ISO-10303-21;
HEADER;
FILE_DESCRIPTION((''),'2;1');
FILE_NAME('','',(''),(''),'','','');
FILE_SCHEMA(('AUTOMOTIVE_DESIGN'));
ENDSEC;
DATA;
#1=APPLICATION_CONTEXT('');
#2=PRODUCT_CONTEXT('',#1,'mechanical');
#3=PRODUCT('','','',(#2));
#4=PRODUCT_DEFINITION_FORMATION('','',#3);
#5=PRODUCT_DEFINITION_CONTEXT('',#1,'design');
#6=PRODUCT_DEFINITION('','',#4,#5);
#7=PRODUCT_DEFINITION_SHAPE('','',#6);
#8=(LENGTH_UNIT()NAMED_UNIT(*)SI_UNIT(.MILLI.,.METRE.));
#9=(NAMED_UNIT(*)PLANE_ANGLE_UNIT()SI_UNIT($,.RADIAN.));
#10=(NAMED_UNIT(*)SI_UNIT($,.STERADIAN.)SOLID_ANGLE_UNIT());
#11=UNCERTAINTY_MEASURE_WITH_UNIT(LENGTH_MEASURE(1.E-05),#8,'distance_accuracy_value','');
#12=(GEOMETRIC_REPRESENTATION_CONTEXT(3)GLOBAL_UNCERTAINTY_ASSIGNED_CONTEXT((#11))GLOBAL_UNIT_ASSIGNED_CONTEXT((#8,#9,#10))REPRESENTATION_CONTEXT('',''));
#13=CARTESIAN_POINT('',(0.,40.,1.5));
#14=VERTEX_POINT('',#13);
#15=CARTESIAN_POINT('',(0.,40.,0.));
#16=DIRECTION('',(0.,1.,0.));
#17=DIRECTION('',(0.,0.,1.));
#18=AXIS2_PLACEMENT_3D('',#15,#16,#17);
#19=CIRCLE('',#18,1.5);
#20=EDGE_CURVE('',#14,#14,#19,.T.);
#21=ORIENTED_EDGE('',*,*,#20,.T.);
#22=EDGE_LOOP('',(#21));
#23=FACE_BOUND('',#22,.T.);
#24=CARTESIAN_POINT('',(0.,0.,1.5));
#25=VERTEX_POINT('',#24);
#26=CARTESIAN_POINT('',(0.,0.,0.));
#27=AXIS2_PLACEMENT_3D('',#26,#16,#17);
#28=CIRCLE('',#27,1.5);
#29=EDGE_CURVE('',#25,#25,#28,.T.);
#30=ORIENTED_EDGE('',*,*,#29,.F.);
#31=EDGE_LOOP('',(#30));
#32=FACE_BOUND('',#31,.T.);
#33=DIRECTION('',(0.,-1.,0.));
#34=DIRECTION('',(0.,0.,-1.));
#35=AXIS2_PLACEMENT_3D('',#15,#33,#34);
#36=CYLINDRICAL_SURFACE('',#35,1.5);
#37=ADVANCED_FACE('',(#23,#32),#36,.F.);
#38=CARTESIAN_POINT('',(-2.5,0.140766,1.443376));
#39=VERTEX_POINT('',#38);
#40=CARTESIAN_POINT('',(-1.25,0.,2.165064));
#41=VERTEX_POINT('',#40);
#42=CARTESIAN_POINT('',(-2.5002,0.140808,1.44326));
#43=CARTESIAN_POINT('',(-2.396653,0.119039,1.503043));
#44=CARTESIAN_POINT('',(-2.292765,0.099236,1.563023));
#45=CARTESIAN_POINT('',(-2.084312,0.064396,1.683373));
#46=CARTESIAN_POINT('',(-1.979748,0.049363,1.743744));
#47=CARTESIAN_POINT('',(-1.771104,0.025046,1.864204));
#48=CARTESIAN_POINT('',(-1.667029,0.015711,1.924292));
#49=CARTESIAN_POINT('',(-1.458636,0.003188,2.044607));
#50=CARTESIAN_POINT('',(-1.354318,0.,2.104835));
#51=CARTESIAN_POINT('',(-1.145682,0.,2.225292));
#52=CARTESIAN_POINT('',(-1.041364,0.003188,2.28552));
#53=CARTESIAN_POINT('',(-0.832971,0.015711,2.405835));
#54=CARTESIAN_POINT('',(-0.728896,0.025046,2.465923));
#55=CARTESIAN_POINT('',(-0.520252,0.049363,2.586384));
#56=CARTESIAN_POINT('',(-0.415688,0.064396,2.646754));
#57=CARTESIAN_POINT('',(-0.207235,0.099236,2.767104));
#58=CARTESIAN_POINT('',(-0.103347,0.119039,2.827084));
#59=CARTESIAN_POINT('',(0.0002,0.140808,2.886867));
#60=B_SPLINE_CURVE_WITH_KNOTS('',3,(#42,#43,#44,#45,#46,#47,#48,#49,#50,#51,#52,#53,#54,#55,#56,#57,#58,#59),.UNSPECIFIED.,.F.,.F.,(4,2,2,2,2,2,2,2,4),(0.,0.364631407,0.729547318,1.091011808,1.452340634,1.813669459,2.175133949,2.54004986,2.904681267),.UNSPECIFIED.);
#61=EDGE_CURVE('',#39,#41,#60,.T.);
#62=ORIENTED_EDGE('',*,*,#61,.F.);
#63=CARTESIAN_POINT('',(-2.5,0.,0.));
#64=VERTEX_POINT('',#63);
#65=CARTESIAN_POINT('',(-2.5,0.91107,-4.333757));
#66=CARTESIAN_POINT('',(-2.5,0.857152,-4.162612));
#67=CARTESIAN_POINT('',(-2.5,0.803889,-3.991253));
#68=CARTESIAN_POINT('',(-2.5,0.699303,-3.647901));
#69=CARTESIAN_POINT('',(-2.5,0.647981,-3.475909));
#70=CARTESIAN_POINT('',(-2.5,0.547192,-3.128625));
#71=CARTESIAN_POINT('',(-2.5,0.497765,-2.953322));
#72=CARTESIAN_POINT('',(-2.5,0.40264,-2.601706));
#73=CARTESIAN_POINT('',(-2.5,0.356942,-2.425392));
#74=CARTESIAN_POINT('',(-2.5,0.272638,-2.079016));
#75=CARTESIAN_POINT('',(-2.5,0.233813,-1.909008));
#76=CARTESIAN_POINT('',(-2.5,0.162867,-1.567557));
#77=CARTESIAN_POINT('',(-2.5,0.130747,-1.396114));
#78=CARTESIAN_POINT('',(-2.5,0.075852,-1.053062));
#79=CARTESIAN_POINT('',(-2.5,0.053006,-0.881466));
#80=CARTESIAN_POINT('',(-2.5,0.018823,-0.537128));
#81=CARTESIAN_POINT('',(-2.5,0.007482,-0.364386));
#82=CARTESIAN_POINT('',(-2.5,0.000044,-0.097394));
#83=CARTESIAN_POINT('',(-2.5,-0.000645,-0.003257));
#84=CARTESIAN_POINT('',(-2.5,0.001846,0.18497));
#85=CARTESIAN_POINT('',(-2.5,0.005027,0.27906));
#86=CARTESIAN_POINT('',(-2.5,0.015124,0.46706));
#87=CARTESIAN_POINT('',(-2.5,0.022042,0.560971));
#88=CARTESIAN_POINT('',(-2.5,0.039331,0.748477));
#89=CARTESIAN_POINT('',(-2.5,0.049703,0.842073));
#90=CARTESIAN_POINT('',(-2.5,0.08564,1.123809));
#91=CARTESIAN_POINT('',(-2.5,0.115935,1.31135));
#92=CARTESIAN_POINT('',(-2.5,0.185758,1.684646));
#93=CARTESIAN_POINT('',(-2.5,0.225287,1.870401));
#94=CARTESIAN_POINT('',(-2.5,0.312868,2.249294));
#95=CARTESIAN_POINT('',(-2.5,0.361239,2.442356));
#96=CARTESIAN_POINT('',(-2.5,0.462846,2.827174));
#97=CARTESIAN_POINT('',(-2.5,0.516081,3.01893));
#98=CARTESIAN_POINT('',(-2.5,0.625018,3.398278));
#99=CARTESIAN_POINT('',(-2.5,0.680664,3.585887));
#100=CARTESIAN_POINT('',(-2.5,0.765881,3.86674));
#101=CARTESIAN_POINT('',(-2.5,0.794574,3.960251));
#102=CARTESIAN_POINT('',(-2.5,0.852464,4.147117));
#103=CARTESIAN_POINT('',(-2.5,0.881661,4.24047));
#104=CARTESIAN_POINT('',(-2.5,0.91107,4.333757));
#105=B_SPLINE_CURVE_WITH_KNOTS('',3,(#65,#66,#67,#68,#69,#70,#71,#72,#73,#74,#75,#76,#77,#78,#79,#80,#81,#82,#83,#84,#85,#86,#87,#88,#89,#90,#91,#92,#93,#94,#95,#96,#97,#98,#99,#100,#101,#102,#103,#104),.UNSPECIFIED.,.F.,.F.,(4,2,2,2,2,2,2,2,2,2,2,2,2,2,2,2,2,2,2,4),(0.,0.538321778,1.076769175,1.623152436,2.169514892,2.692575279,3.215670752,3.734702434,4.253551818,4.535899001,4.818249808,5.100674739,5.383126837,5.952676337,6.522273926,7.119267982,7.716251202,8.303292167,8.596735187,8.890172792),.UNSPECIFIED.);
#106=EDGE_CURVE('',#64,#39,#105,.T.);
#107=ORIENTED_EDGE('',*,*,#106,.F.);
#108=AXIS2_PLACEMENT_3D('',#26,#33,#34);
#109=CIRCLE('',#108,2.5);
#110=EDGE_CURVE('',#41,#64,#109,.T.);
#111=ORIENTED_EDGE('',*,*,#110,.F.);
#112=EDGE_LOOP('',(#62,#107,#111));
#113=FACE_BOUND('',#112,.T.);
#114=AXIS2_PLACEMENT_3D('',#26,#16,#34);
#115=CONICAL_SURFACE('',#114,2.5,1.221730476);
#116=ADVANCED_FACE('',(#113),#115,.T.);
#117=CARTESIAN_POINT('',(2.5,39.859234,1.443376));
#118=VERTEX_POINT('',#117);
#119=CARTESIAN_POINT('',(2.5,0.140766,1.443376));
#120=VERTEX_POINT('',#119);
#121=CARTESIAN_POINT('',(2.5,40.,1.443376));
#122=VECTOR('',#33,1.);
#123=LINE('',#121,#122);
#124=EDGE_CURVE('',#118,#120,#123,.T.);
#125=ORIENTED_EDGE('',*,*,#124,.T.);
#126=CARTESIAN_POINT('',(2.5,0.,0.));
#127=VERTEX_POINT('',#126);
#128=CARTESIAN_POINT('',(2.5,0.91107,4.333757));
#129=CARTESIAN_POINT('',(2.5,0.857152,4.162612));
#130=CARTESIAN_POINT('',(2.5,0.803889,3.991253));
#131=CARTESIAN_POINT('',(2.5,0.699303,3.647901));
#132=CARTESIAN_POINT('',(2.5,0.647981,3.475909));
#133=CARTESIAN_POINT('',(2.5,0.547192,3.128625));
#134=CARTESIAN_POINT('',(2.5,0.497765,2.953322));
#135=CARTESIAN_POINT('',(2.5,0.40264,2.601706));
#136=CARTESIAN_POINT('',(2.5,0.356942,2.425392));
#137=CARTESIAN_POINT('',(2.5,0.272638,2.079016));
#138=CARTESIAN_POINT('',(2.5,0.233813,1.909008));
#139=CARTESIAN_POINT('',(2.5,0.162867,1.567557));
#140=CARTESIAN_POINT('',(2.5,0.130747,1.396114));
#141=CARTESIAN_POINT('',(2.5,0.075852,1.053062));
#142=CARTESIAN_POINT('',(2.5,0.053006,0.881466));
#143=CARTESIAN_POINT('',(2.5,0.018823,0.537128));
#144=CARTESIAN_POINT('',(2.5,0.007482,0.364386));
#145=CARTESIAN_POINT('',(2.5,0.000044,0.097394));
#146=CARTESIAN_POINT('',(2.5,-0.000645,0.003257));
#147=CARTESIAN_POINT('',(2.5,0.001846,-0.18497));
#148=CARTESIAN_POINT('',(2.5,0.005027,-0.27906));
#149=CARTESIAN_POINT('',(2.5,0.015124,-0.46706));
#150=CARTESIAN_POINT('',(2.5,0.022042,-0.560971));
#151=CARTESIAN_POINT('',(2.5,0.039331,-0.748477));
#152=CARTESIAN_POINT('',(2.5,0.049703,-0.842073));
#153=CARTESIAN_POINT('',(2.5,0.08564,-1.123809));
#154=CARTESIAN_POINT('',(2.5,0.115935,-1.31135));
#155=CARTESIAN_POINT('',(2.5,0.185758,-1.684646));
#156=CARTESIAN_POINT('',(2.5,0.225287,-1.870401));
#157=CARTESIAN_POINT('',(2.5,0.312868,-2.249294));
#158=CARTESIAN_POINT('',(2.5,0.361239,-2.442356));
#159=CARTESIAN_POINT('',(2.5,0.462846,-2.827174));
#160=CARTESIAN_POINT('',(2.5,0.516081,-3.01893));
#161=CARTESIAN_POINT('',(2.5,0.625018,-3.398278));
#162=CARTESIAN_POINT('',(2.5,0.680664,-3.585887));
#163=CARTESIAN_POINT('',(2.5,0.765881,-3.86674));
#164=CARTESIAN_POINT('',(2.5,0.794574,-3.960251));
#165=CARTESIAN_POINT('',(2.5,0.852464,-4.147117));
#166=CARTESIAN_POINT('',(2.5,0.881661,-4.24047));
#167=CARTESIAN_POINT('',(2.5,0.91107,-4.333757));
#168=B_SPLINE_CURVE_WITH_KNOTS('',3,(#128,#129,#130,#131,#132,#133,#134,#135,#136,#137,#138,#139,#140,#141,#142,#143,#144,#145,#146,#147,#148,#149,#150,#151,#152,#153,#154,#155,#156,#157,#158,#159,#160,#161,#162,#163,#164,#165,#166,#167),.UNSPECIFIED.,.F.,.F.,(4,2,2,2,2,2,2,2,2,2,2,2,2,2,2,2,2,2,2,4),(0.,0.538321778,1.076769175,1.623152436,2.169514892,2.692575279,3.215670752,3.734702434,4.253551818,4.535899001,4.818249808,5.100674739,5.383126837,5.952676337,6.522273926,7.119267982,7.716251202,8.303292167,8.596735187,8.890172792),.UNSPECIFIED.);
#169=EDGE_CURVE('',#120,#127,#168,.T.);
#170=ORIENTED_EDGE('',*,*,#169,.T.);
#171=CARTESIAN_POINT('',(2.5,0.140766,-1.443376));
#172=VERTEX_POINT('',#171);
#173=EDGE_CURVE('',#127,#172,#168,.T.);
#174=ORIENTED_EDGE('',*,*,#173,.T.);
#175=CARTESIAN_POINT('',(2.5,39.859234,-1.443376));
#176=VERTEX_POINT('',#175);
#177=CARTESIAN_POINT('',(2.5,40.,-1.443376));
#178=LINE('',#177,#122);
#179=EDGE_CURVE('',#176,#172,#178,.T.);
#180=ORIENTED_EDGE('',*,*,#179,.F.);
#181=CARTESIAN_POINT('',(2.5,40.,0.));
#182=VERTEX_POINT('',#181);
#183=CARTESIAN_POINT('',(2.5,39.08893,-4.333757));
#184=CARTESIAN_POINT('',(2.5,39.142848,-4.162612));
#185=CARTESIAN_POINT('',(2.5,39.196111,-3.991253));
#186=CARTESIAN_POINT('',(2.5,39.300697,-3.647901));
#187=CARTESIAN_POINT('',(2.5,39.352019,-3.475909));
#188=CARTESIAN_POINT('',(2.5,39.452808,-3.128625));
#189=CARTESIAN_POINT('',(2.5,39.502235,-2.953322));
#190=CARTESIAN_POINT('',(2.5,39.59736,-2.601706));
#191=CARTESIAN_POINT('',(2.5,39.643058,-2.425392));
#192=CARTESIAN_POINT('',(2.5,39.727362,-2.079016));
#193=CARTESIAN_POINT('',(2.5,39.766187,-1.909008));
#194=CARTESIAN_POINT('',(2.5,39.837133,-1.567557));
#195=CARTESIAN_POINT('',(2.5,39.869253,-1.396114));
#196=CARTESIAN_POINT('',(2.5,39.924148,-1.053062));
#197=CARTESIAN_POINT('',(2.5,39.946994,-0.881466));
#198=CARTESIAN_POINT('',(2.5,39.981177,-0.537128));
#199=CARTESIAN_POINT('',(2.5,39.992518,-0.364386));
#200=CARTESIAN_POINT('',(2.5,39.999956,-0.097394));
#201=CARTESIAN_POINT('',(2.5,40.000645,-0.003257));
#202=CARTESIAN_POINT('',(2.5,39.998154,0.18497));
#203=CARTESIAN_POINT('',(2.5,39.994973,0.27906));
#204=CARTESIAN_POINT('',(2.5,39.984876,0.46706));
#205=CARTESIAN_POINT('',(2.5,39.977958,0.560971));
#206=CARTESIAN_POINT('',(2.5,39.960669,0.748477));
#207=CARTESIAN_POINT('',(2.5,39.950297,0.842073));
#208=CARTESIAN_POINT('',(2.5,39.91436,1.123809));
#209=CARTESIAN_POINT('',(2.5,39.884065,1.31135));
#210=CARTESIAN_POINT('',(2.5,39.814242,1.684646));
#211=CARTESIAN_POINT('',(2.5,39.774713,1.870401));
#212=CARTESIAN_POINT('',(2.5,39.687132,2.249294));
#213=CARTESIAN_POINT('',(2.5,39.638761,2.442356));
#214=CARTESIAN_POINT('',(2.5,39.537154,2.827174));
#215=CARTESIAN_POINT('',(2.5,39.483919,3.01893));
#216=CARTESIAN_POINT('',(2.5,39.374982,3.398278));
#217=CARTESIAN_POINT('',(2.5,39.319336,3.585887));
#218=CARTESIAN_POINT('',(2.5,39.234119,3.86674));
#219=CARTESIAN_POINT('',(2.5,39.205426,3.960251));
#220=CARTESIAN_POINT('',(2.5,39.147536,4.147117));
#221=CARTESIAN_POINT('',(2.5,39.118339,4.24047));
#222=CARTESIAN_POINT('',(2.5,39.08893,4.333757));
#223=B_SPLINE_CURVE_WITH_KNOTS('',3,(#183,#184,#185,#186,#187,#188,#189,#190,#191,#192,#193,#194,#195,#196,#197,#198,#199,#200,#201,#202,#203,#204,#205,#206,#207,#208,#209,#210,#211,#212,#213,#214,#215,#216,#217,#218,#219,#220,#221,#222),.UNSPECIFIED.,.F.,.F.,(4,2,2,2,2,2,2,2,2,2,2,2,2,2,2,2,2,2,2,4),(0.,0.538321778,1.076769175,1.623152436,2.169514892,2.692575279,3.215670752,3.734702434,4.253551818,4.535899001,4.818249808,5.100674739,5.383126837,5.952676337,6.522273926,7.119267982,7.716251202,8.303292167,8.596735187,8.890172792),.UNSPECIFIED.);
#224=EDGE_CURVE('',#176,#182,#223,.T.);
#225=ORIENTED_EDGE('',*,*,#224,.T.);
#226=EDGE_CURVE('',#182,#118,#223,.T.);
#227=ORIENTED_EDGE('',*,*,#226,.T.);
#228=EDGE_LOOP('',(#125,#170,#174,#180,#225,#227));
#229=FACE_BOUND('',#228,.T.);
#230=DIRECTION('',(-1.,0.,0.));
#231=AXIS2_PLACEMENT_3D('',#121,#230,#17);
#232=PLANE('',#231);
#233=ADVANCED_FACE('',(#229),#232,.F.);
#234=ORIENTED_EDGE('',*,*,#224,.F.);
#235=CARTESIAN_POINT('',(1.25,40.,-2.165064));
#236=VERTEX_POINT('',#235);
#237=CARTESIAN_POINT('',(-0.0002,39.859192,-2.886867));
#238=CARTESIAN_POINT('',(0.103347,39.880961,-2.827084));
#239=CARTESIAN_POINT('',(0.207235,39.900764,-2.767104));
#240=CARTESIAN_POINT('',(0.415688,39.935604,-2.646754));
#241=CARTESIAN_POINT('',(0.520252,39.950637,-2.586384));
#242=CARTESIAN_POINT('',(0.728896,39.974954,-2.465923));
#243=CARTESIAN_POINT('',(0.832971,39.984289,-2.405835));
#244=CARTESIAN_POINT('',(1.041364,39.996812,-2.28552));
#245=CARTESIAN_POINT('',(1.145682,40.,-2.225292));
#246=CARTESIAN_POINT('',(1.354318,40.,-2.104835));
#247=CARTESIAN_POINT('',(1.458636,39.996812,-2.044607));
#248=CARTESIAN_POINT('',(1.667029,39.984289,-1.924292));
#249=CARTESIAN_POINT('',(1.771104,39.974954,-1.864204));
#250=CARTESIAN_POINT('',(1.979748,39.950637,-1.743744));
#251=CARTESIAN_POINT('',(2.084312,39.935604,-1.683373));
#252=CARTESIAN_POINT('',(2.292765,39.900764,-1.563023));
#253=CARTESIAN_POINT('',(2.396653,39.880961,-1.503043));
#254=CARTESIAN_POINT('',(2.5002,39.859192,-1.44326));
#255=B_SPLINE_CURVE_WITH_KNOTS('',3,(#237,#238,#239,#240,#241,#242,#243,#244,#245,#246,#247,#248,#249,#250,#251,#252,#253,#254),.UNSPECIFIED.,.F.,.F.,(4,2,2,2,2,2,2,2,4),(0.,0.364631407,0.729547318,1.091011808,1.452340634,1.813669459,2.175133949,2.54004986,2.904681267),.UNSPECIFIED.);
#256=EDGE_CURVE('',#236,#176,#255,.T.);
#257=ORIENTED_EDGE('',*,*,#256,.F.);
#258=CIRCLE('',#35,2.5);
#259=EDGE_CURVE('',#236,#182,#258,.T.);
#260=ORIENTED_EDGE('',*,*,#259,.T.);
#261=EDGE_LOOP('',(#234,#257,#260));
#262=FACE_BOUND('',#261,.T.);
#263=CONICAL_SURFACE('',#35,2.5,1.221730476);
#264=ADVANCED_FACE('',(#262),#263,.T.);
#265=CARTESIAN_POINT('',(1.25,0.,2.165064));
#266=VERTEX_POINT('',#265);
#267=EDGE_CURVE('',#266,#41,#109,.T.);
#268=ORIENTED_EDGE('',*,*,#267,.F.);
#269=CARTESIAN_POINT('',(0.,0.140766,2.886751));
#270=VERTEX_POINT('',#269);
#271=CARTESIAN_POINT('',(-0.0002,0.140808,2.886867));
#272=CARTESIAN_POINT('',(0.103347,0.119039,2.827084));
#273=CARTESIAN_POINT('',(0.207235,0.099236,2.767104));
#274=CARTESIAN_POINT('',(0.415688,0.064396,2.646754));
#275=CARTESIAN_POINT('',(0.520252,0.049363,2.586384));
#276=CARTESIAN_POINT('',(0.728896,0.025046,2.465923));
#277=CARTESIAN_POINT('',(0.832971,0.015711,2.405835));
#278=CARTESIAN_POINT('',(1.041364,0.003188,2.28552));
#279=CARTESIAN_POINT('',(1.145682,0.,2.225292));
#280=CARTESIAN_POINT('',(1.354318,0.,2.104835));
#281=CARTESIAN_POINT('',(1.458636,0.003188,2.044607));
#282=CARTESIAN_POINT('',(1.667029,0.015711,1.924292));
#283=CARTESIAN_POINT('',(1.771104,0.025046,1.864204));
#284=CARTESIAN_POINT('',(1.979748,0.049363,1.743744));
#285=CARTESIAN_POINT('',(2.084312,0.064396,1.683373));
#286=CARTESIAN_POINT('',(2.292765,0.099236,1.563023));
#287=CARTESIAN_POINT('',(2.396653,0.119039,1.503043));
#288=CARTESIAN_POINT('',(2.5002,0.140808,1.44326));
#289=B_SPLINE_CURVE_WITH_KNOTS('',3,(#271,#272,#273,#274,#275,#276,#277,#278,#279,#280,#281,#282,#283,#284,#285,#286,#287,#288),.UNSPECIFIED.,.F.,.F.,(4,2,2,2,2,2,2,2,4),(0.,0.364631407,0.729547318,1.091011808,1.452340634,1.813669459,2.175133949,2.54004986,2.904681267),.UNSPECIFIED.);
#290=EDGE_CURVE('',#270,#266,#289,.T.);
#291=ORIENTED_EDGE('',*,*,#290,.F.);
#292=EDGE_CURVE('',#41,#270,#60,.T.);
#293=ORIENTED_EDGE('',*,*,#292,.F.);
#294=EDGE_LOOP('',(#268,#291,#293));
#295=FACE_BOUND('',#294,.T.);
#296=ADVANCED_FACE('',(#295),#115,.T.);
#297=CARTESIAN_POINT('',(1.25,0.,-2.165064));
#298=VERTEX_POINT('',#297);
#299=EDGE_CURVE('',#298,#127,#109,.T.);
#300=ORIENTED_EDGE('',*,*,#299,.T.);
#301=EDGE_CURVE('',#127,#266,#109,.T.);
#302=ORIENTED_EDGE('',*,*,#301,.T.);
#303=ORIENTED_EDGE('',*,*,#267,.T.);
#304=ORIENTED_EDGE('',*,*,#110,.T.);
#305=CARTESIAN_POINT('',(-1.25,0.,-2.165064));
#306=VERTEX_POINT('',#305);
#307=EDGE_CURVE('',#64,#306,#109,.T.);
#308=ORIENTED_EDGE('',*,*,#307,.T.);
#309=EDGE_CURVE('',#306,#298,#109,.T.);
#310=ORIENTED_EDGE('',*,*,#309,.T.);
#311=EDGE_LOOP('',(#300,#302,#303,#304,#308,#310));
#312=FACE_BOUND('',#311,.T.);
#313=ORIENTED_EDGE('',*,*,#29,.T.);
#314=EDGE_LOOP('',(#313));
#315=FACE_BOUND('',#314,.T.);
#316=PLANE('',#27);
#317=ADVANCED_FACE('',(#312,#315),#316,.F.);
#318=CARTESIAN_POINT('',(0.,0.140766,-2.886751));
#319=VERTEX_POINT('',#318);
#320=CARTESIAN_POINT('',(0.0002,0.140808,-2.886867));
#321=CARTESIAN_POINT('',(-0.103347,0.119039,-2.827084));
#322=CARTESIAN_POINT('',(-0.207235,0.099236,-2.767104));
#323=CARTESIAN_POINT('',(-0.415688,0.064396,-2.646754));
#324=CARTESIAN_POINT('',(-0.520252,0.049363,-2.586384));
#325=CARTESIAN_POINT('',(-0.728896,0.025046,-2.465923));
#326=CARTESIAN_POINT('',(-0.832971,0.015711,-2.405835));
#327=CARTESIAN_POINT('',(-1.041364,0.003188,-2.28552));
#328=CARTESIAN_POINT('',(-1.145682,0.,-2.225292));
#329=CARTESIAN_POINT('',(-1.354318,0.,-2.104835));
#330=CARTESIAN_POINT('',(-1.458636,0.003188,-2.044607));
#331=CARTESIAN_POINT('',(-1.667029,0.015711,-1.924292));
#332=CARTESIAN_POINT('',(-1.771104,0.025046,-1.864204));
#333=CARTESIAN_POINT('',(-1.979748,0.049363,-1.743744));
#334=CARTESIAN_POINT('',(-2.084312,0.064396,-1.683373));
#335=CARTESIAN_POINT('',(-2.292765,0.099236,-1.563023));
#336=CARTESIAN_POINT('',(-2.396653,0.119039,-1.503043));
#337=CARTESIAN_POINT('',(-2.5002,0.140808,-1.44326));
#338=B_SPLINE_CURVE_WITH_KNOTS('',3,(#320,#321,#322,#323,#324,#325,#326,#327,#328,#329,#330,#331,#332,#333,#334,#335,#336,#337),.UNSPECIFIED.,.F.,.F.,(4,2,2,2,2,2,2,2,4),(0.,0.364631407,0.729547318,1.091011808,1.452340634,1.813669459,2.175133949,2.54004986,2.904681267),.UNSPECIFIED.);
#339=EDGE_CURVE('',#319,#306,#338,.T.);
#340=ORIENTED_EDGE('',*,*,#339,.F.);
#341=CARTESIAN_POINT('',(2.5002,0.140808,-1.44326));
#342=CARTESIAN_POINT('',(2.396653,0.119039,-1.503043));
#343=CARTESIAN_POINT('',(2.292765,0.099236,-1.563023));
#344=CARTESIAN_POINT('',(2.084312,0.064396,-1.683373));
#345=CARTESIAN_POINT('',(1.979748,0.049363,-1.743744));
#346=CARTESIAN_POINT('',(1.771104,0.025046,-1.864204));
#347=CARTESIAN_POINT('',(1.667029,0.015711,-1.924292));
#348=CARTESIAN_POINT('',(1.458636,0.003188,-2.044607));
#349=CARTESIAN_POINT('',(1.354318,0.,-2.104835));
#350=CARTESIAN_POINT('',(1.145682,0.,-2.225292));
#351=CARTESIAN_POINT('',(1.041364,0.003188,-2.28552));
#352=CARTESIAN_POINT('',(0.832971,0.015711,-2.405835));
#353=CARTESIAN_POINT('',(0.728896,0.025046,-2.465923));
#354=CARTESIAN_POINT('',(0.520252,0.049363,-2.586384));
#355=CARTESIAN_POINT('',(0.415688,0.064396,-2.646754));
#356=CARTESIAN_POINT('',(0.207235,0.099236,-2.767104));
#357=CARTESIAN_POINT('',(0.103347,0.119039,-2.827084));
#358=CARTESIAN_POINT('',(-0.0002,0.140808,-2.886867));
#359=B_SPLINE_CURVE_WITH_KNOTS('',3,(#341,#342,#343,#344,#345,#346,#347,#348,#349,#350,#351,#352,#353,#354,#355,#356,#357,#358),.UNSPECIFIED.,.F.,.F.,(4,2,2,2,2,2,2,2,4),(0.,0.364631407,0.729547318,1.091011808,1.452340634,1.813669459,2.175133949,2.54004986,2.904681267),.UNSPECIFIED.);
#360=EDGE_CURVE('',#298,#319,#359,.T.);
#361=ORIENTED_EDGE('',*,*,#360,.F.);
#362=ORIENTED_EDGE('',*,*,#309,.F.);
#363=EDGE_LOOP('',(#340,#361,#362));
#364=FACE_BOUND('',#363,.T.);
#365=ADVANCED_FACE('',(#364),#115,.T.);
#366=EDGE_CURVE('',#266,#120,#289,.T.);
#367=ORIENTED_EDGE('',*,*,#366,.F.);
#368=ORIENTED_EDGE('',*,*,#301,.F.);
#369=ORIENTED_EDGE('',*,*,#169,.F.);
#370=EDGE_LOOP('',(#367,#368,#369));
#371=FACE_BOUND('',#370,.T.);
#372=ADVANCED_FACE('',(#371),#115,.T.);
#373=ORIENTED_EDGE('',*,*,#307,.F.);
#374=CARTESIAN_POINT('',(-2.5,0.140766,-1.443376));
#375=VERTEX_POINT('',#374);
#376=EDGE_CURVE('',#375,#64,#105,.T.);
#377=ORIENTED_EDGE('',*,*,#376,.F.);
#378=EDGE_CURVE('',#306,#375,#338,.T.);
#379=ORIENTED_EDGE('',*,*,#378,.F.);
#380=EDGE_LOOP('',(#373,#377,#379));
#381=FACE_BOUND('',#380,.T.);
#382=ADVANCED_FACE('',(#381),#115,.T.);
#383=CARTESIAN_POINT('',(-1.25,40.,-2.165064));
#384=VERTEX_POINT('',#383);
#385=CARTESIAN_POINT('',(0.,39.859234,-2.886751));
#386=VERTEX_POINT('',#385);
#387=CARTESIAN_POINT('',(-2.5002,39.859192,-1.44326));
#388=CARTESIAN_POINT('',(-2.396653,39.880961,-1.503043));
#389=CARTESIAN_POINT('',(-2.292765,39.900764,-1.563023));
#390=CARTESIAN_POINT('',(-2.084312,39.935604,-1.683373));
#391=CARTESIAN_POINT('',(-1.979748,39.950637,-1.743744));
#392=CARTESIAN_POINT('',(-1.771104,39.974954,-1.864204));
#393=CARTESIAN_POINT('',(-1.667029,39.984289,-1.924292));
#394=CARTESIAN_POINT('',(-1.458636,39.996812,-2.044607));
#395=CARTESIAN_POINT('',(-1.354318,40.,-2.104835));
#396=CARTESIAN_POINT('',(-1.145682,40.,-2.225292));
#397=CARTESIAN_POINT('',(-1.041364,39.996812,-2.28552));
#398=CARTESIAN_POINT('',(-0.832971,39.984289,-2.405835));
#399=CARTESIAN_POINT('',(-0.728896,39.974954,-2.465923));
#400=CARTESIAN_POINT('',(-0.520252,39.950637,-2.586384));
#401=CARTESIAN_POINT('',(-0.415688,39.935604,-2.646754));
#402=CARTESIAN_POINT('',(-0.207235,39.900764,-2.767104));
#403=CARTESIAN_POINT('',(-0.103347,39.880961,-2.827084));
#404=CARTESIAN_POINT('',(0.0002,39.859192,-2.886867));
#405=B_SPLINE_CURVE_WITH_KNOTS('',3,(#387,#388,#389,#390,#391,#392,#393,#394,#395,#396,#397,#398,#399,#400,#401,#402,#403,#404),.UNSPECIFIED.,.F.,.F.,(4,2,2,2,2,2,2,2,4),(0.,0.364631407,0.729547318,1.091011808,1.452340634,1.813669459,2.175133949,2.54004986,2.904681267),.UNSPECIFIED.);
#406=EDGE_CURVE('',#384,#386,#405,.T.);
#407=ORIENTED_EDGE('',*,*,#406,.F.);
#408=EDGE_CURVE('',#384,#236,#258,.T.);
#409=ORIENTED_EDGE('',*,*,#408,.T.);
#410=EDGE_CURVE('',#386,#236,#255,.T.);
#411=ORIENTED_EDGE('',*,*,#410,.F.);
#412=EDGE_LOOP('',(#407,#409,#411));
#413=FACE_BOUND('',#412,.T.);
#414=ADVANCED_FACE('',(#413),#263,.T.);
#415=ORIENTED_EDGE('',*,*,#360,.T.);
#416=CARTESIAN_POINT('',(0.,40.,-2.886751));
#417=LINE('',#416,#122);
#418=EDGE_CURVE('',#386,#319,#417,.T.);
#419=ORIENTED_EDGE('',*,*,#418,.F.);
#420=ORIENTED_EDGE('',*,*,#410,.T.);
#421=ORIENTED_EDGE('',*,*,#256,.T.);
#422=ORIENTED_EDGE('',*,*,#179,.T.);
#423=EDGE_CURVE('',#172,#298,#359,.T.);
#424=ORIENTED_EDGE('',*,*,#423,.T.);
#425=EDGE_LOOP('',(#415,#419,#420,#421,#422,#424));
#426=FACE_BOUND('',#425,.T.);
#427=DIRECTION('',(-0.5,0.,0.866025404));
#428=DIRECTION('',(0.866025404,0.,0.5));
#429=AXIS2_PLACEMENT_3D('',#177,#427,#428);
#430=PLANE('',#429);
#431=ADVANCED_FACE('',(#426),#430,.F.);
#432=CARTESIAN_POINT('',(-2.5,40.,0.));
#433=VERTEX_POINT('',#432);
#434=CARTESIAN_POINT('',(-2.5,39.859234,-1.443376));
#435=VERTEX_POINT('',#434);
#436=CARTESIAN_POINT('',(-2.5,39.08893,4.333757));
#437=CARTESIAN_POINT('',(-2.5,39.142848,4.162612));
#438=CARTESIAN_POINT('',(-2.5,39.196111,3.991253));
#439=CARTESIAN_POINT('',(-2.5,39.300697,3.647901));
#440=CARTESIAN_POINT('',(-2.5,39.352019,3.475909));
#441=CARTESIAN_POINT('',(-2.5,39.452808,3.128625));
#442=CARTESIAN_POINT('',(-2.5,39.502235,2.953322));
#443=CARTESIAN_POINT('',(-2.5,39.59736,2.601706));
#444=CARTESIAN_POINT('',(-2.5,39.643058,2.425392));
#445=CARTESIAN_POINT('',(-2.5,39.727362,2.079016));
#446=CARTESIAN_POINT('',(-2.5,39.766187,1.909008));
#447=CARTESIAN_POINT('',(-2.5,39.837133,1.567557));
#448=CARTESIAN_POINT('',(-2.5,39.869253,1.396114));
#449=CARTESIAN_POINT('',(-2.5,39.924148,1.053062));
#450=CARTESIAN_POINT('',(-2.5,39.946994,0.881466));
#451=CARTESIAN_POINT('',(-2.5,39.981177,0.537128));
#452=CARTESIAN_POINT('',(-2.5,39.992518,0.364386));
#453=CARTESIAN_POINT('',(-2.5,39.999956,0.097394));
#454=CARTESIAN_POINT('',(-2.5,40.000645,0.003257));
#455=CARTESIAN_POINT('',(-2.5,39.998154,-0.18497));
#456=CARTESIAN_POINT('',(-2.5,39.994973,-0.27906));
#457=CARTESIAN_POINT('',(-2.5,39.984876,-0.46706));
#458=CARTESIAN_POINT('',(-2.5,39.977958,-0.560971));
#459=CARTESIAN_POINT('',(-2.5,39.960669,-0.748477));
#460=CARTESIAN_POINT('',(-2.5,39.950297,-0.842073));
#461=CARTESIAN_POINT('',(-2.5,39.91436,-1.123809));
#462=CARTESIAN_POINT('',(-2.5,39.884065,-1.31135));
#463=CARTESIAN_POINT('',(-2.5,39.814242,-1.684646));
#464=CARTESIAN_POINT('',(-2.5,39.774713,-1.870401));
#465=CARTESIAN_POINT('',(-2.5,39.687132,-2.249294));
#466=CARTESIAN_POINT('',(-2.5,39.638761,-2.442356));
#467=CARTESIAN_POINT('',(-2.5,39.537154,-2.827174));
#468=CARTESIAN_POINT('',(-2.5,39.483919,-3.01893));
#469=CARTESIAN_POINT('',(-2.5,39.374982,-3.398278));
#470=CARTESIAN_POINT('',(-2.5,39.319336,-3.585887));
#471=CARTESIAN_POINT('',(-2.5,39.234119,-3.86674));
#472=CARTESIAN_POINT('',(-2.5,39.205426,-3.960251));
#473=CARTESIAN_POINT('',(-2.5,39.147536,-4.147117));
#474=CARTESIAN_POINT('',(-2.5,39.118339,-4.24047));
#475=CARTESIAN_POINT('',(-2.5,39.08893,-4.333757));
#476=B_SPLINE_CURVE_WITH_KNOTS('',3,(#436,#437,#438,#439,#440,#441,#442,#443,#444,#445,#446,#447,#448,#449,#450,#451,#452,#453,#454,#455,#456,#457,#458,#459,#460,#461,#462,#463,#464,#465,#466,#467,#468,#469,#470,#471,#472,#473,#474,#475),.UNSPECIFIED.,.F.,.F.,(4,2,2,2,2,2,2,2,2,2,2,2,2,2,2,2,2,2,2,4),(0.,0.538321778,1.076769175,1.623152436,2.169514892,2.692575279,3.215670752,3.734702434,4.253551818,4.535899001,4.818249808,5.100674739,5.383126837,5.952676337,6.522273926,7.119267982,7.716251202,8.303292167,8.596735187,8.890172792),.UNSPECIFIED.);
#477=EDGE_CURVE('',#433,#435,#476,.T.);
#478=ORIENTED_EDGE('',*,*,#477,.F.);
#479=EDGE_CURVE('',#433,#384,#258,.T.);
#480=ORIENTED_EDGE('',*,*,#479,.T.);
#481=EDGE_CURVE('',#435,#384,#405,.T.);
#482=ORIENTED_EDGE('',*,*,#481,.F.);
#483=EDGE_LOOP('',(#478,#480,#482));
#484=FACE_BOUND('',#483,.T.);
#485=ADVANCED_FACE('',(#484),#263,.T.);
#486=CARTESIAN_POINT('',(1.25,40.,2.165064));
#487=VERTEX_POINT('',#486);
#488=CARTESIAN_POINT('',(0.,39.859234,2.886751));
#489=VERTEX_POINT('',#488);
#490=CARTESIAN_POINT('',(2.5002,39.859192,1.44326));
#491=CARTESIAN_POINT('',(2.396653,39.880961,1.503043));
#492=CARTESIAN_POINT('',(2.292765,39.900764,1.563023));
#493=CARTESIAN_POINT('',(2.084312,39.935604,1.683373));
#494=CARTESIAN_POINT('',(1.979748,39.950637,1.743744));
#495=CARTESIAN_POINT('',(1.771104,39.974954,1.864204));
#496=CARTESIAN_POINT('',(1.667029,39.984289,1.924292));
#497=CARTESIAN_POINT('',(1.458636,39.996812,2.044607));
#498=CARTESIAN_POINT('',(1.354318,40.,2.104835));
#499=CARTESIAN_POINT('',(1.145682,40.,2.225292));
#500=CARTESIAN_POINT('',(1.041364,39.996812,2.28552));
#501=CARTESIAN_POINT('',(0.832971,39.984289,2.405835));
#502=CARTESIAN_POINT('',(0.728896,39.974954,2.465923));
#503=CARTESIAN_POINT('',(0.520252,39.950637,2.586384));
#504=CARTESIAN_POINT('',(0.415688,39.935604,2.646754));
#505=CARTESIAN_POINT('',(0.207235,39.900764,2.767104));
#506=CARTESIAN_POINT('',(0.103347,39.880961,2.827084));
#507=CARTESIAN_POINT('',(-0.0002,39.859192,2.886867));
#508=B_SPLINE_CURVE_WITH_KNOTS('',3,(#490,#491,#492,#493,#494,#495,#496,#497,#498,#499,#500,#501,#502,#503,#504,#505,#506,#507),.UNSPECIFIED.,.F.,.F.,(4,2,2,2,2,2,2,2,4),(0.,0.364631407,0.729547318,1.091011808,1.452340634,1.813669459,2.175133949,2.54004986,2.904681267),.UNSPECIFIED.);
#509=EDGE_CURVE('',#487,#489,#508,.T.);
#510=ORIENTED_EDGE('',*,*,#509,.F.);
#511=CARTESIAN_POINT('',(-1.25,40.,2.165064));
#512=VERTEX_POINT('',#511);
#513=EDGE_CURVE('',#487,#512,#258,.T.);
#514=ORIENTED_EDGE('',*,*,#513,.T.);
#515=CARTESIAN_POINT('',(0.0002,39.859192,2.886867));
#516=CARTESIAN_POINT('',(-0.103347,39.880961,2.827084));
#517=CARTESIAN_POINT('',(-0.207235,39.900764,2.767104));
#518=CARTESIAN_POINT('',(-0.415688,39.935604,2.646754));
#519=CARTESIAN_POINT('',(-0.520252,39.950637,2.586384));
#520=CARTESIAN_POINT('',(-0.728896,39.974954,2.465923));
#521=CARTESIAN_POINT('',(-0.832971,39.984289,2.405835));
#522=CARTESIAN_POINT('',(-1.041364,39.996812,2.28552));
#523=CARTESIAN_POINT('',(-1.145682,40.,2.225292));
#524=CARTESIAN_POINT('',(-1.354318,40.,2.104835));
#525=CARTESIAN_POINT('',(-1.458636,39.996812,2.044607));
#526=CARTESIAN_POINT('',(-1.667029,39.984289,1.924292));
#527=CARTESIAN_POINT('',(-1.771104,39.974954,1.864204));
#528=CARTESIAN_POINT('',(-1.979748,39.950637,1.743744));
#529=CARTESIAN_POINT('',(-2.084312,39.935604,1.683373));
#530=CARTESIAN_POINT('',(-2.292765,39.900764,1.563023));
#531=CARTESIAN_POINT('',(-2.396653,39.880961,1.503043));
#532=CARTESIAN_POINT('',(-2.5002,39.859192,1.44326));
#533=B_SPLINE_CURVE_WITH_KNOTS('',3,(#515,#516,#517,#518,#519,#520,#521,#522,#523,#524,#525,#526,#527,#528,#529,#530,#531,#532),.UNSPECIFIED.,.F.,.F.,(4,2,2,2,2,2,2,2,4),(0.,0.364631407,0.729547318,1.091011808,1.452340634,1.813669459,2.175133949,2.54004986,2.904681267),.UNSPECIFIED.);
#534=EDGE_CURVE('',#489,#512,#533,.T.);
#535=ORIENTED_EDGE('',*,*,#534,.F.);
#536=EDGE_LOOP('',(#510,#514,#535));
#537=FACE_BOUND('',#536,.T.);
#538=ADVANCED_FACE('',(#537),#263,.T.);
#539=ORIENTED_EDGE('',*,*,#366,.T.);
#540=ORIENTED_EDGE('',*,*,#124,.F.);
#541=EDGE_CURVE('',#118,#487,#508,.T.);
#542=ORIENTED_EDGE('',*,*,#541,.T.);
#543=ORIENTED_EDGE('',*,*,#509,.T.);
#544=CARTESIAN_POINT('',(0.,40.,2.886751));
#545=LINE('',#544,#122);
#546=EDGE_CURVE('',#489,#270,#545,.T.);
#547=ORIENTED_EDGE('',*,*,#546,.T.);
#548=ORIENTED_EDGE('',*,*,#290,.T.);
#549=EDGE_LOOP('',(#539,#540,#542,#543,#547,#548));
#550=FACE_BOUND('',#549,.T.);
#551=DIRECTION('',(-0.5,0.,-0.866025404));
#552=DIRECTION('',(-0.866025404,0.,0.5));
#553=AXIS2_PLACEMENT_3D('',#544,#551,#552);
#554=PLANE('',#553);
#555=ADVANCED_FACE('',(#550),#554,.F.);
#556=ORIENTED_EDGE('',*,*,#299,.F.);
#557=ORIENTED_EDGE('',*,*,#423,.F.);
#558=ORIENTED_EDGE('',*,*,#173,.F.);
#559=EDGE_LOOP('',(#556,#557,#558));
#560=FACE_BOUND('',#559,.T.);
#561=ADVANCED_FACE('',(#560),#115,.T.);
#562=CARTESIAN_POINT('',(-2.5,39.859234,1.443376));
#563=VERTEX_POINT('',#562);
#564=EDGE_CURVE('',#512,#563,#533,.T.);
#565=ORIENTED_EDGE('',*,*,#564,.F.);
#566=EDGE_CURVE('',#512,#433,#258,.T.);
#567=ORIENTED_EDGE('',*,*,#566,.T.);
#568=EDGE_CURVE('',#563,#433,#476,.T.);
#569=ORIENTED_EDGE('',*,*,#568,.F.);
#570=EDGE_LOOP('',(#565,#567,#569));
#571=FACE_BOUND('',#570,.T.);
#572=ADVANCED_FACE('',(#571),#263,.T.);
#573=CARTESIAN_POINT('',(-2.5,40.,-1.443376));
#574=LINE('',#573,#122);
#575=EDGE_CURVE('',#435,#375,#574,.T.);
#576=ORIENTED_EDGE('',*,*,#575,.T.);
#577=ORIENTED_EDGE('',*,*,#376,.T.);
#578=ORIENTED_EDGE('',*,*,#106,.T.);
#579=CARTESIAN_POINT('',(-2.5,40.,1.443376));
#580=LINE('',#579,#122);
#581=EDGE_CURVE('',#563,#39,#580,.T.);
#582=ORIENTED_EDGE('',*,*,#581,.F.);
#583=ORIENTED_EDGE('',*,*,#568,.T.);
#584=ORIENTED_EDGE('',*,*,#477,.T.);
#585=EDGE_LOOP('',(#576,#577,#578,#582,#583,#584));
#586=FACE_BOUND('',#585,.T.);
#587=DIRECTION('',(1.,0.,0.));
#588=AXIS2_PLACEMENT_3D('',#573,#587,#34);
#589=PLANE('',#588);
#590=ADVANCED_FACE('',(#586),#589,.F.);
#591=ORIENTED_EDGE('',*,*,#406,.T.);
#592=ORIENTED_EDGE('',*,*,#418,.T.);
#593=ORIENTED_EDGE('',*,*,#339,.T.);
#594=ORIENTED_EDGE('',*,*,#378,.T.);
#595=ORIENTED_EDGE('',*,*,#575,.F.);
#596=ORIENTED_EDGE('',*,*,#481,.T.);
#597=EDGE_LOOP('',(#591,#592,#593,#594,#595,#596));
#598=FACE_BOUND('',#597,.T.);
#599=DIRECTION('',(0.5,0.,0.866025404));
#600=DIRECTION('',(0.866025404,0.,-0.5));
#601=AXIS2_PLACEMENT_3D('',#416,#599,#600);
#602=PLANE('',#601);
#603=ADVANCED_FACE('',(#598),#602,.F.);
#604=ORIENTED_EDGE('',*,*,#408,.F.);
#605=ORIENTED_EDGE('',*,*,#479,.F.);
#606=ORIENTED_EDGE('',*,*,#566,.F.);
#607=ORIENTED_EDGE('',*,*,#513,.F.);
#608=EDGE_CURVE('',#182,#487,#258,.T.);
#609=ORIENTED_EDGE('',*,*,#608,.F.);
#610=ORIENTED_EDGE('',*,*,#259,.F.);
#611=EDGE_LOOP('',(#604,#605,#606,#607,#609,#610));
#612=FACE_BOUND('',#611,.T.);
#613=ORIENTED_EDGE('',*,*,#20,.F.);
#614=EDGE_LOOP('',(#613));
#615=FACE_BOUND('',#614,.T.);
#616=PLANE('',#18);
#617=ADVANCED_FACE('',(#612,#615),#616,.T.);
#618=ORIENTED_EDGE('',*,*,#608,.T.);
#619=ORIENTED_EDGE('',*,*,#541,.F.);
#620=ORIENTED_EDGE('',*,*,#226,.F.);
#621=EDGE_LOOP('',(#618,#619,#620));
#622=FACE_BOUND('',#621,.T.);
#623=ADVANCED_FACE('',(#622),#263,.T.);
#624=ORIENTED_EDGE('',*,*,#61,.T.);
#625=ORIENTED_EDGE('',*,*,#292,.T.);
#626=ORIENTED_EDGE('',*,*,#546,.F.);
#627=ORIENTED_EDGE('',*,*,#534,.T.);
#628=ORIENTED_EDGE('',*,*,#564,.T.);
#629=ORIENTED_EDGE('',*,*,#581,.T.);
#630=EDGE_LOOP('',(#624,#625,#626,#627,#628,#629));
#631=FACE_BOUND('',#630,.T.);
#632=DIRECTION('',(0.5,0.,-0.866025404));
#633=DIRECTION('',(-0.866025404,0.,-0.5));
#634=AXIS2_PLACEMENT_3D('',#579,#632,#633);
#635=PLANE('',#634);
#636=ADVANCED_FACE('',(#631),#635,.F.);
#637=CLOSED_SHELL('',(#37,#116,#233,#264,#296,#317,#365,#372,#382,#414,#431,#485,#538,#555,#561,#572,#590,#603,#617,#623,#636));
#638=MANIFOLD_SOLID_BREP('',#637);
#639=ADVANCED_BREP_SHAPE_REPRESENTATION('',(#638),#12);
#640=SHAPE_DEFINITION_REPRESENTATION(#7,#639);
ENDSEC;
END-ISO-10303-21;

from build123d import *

# Parameters (mm, degrees)
SKETCH1_R           = 1.5
BOSS_EXTRUDE1_DEPTH = 40


with BuildPart() as part:
    # Sketch1 → Boss-Extrude1 (new body)
    with BuildSketch(Plane(origin=(0, 0, 0), x_dir=(1, 0, 0), z_dir=(0, 1, 0))):
        Polygon((0, 2.886751346), (-2.5, 1.443375673), (-2.5, -1.443375673), (0, -2.886751346), (2.5, -1.443375673), (2.5, 1.443375673), align=None)
        with Locations(Location((0, 0, 0), (0, 0, 270))):
            Circle(SKETCH1_R, mode=Mode.SUBTRACT)
    extrude(amount=BOSS_EXTRUDE1_DEPTH)

    # Sketch6 → Cut-Revolve1 (revolve, cut)
    with BuildSketch(Plane.ZY):
        Polygon((2.5, 40), (2.886751346, 40), (2.886751346, 39.859234022), align=None)
    cut_revolve1 = revolve(axis=Axis((0, 40, 0), (0, 1, 0)), mode=Mode.SUBTRACT)

    # Mirror1: Cut-Revolve1 across plane
    add(cut_revolve1.mirror(Plane.ZX.offset(20)), mode=Mode.SUBTRACT)


solid = part.part
